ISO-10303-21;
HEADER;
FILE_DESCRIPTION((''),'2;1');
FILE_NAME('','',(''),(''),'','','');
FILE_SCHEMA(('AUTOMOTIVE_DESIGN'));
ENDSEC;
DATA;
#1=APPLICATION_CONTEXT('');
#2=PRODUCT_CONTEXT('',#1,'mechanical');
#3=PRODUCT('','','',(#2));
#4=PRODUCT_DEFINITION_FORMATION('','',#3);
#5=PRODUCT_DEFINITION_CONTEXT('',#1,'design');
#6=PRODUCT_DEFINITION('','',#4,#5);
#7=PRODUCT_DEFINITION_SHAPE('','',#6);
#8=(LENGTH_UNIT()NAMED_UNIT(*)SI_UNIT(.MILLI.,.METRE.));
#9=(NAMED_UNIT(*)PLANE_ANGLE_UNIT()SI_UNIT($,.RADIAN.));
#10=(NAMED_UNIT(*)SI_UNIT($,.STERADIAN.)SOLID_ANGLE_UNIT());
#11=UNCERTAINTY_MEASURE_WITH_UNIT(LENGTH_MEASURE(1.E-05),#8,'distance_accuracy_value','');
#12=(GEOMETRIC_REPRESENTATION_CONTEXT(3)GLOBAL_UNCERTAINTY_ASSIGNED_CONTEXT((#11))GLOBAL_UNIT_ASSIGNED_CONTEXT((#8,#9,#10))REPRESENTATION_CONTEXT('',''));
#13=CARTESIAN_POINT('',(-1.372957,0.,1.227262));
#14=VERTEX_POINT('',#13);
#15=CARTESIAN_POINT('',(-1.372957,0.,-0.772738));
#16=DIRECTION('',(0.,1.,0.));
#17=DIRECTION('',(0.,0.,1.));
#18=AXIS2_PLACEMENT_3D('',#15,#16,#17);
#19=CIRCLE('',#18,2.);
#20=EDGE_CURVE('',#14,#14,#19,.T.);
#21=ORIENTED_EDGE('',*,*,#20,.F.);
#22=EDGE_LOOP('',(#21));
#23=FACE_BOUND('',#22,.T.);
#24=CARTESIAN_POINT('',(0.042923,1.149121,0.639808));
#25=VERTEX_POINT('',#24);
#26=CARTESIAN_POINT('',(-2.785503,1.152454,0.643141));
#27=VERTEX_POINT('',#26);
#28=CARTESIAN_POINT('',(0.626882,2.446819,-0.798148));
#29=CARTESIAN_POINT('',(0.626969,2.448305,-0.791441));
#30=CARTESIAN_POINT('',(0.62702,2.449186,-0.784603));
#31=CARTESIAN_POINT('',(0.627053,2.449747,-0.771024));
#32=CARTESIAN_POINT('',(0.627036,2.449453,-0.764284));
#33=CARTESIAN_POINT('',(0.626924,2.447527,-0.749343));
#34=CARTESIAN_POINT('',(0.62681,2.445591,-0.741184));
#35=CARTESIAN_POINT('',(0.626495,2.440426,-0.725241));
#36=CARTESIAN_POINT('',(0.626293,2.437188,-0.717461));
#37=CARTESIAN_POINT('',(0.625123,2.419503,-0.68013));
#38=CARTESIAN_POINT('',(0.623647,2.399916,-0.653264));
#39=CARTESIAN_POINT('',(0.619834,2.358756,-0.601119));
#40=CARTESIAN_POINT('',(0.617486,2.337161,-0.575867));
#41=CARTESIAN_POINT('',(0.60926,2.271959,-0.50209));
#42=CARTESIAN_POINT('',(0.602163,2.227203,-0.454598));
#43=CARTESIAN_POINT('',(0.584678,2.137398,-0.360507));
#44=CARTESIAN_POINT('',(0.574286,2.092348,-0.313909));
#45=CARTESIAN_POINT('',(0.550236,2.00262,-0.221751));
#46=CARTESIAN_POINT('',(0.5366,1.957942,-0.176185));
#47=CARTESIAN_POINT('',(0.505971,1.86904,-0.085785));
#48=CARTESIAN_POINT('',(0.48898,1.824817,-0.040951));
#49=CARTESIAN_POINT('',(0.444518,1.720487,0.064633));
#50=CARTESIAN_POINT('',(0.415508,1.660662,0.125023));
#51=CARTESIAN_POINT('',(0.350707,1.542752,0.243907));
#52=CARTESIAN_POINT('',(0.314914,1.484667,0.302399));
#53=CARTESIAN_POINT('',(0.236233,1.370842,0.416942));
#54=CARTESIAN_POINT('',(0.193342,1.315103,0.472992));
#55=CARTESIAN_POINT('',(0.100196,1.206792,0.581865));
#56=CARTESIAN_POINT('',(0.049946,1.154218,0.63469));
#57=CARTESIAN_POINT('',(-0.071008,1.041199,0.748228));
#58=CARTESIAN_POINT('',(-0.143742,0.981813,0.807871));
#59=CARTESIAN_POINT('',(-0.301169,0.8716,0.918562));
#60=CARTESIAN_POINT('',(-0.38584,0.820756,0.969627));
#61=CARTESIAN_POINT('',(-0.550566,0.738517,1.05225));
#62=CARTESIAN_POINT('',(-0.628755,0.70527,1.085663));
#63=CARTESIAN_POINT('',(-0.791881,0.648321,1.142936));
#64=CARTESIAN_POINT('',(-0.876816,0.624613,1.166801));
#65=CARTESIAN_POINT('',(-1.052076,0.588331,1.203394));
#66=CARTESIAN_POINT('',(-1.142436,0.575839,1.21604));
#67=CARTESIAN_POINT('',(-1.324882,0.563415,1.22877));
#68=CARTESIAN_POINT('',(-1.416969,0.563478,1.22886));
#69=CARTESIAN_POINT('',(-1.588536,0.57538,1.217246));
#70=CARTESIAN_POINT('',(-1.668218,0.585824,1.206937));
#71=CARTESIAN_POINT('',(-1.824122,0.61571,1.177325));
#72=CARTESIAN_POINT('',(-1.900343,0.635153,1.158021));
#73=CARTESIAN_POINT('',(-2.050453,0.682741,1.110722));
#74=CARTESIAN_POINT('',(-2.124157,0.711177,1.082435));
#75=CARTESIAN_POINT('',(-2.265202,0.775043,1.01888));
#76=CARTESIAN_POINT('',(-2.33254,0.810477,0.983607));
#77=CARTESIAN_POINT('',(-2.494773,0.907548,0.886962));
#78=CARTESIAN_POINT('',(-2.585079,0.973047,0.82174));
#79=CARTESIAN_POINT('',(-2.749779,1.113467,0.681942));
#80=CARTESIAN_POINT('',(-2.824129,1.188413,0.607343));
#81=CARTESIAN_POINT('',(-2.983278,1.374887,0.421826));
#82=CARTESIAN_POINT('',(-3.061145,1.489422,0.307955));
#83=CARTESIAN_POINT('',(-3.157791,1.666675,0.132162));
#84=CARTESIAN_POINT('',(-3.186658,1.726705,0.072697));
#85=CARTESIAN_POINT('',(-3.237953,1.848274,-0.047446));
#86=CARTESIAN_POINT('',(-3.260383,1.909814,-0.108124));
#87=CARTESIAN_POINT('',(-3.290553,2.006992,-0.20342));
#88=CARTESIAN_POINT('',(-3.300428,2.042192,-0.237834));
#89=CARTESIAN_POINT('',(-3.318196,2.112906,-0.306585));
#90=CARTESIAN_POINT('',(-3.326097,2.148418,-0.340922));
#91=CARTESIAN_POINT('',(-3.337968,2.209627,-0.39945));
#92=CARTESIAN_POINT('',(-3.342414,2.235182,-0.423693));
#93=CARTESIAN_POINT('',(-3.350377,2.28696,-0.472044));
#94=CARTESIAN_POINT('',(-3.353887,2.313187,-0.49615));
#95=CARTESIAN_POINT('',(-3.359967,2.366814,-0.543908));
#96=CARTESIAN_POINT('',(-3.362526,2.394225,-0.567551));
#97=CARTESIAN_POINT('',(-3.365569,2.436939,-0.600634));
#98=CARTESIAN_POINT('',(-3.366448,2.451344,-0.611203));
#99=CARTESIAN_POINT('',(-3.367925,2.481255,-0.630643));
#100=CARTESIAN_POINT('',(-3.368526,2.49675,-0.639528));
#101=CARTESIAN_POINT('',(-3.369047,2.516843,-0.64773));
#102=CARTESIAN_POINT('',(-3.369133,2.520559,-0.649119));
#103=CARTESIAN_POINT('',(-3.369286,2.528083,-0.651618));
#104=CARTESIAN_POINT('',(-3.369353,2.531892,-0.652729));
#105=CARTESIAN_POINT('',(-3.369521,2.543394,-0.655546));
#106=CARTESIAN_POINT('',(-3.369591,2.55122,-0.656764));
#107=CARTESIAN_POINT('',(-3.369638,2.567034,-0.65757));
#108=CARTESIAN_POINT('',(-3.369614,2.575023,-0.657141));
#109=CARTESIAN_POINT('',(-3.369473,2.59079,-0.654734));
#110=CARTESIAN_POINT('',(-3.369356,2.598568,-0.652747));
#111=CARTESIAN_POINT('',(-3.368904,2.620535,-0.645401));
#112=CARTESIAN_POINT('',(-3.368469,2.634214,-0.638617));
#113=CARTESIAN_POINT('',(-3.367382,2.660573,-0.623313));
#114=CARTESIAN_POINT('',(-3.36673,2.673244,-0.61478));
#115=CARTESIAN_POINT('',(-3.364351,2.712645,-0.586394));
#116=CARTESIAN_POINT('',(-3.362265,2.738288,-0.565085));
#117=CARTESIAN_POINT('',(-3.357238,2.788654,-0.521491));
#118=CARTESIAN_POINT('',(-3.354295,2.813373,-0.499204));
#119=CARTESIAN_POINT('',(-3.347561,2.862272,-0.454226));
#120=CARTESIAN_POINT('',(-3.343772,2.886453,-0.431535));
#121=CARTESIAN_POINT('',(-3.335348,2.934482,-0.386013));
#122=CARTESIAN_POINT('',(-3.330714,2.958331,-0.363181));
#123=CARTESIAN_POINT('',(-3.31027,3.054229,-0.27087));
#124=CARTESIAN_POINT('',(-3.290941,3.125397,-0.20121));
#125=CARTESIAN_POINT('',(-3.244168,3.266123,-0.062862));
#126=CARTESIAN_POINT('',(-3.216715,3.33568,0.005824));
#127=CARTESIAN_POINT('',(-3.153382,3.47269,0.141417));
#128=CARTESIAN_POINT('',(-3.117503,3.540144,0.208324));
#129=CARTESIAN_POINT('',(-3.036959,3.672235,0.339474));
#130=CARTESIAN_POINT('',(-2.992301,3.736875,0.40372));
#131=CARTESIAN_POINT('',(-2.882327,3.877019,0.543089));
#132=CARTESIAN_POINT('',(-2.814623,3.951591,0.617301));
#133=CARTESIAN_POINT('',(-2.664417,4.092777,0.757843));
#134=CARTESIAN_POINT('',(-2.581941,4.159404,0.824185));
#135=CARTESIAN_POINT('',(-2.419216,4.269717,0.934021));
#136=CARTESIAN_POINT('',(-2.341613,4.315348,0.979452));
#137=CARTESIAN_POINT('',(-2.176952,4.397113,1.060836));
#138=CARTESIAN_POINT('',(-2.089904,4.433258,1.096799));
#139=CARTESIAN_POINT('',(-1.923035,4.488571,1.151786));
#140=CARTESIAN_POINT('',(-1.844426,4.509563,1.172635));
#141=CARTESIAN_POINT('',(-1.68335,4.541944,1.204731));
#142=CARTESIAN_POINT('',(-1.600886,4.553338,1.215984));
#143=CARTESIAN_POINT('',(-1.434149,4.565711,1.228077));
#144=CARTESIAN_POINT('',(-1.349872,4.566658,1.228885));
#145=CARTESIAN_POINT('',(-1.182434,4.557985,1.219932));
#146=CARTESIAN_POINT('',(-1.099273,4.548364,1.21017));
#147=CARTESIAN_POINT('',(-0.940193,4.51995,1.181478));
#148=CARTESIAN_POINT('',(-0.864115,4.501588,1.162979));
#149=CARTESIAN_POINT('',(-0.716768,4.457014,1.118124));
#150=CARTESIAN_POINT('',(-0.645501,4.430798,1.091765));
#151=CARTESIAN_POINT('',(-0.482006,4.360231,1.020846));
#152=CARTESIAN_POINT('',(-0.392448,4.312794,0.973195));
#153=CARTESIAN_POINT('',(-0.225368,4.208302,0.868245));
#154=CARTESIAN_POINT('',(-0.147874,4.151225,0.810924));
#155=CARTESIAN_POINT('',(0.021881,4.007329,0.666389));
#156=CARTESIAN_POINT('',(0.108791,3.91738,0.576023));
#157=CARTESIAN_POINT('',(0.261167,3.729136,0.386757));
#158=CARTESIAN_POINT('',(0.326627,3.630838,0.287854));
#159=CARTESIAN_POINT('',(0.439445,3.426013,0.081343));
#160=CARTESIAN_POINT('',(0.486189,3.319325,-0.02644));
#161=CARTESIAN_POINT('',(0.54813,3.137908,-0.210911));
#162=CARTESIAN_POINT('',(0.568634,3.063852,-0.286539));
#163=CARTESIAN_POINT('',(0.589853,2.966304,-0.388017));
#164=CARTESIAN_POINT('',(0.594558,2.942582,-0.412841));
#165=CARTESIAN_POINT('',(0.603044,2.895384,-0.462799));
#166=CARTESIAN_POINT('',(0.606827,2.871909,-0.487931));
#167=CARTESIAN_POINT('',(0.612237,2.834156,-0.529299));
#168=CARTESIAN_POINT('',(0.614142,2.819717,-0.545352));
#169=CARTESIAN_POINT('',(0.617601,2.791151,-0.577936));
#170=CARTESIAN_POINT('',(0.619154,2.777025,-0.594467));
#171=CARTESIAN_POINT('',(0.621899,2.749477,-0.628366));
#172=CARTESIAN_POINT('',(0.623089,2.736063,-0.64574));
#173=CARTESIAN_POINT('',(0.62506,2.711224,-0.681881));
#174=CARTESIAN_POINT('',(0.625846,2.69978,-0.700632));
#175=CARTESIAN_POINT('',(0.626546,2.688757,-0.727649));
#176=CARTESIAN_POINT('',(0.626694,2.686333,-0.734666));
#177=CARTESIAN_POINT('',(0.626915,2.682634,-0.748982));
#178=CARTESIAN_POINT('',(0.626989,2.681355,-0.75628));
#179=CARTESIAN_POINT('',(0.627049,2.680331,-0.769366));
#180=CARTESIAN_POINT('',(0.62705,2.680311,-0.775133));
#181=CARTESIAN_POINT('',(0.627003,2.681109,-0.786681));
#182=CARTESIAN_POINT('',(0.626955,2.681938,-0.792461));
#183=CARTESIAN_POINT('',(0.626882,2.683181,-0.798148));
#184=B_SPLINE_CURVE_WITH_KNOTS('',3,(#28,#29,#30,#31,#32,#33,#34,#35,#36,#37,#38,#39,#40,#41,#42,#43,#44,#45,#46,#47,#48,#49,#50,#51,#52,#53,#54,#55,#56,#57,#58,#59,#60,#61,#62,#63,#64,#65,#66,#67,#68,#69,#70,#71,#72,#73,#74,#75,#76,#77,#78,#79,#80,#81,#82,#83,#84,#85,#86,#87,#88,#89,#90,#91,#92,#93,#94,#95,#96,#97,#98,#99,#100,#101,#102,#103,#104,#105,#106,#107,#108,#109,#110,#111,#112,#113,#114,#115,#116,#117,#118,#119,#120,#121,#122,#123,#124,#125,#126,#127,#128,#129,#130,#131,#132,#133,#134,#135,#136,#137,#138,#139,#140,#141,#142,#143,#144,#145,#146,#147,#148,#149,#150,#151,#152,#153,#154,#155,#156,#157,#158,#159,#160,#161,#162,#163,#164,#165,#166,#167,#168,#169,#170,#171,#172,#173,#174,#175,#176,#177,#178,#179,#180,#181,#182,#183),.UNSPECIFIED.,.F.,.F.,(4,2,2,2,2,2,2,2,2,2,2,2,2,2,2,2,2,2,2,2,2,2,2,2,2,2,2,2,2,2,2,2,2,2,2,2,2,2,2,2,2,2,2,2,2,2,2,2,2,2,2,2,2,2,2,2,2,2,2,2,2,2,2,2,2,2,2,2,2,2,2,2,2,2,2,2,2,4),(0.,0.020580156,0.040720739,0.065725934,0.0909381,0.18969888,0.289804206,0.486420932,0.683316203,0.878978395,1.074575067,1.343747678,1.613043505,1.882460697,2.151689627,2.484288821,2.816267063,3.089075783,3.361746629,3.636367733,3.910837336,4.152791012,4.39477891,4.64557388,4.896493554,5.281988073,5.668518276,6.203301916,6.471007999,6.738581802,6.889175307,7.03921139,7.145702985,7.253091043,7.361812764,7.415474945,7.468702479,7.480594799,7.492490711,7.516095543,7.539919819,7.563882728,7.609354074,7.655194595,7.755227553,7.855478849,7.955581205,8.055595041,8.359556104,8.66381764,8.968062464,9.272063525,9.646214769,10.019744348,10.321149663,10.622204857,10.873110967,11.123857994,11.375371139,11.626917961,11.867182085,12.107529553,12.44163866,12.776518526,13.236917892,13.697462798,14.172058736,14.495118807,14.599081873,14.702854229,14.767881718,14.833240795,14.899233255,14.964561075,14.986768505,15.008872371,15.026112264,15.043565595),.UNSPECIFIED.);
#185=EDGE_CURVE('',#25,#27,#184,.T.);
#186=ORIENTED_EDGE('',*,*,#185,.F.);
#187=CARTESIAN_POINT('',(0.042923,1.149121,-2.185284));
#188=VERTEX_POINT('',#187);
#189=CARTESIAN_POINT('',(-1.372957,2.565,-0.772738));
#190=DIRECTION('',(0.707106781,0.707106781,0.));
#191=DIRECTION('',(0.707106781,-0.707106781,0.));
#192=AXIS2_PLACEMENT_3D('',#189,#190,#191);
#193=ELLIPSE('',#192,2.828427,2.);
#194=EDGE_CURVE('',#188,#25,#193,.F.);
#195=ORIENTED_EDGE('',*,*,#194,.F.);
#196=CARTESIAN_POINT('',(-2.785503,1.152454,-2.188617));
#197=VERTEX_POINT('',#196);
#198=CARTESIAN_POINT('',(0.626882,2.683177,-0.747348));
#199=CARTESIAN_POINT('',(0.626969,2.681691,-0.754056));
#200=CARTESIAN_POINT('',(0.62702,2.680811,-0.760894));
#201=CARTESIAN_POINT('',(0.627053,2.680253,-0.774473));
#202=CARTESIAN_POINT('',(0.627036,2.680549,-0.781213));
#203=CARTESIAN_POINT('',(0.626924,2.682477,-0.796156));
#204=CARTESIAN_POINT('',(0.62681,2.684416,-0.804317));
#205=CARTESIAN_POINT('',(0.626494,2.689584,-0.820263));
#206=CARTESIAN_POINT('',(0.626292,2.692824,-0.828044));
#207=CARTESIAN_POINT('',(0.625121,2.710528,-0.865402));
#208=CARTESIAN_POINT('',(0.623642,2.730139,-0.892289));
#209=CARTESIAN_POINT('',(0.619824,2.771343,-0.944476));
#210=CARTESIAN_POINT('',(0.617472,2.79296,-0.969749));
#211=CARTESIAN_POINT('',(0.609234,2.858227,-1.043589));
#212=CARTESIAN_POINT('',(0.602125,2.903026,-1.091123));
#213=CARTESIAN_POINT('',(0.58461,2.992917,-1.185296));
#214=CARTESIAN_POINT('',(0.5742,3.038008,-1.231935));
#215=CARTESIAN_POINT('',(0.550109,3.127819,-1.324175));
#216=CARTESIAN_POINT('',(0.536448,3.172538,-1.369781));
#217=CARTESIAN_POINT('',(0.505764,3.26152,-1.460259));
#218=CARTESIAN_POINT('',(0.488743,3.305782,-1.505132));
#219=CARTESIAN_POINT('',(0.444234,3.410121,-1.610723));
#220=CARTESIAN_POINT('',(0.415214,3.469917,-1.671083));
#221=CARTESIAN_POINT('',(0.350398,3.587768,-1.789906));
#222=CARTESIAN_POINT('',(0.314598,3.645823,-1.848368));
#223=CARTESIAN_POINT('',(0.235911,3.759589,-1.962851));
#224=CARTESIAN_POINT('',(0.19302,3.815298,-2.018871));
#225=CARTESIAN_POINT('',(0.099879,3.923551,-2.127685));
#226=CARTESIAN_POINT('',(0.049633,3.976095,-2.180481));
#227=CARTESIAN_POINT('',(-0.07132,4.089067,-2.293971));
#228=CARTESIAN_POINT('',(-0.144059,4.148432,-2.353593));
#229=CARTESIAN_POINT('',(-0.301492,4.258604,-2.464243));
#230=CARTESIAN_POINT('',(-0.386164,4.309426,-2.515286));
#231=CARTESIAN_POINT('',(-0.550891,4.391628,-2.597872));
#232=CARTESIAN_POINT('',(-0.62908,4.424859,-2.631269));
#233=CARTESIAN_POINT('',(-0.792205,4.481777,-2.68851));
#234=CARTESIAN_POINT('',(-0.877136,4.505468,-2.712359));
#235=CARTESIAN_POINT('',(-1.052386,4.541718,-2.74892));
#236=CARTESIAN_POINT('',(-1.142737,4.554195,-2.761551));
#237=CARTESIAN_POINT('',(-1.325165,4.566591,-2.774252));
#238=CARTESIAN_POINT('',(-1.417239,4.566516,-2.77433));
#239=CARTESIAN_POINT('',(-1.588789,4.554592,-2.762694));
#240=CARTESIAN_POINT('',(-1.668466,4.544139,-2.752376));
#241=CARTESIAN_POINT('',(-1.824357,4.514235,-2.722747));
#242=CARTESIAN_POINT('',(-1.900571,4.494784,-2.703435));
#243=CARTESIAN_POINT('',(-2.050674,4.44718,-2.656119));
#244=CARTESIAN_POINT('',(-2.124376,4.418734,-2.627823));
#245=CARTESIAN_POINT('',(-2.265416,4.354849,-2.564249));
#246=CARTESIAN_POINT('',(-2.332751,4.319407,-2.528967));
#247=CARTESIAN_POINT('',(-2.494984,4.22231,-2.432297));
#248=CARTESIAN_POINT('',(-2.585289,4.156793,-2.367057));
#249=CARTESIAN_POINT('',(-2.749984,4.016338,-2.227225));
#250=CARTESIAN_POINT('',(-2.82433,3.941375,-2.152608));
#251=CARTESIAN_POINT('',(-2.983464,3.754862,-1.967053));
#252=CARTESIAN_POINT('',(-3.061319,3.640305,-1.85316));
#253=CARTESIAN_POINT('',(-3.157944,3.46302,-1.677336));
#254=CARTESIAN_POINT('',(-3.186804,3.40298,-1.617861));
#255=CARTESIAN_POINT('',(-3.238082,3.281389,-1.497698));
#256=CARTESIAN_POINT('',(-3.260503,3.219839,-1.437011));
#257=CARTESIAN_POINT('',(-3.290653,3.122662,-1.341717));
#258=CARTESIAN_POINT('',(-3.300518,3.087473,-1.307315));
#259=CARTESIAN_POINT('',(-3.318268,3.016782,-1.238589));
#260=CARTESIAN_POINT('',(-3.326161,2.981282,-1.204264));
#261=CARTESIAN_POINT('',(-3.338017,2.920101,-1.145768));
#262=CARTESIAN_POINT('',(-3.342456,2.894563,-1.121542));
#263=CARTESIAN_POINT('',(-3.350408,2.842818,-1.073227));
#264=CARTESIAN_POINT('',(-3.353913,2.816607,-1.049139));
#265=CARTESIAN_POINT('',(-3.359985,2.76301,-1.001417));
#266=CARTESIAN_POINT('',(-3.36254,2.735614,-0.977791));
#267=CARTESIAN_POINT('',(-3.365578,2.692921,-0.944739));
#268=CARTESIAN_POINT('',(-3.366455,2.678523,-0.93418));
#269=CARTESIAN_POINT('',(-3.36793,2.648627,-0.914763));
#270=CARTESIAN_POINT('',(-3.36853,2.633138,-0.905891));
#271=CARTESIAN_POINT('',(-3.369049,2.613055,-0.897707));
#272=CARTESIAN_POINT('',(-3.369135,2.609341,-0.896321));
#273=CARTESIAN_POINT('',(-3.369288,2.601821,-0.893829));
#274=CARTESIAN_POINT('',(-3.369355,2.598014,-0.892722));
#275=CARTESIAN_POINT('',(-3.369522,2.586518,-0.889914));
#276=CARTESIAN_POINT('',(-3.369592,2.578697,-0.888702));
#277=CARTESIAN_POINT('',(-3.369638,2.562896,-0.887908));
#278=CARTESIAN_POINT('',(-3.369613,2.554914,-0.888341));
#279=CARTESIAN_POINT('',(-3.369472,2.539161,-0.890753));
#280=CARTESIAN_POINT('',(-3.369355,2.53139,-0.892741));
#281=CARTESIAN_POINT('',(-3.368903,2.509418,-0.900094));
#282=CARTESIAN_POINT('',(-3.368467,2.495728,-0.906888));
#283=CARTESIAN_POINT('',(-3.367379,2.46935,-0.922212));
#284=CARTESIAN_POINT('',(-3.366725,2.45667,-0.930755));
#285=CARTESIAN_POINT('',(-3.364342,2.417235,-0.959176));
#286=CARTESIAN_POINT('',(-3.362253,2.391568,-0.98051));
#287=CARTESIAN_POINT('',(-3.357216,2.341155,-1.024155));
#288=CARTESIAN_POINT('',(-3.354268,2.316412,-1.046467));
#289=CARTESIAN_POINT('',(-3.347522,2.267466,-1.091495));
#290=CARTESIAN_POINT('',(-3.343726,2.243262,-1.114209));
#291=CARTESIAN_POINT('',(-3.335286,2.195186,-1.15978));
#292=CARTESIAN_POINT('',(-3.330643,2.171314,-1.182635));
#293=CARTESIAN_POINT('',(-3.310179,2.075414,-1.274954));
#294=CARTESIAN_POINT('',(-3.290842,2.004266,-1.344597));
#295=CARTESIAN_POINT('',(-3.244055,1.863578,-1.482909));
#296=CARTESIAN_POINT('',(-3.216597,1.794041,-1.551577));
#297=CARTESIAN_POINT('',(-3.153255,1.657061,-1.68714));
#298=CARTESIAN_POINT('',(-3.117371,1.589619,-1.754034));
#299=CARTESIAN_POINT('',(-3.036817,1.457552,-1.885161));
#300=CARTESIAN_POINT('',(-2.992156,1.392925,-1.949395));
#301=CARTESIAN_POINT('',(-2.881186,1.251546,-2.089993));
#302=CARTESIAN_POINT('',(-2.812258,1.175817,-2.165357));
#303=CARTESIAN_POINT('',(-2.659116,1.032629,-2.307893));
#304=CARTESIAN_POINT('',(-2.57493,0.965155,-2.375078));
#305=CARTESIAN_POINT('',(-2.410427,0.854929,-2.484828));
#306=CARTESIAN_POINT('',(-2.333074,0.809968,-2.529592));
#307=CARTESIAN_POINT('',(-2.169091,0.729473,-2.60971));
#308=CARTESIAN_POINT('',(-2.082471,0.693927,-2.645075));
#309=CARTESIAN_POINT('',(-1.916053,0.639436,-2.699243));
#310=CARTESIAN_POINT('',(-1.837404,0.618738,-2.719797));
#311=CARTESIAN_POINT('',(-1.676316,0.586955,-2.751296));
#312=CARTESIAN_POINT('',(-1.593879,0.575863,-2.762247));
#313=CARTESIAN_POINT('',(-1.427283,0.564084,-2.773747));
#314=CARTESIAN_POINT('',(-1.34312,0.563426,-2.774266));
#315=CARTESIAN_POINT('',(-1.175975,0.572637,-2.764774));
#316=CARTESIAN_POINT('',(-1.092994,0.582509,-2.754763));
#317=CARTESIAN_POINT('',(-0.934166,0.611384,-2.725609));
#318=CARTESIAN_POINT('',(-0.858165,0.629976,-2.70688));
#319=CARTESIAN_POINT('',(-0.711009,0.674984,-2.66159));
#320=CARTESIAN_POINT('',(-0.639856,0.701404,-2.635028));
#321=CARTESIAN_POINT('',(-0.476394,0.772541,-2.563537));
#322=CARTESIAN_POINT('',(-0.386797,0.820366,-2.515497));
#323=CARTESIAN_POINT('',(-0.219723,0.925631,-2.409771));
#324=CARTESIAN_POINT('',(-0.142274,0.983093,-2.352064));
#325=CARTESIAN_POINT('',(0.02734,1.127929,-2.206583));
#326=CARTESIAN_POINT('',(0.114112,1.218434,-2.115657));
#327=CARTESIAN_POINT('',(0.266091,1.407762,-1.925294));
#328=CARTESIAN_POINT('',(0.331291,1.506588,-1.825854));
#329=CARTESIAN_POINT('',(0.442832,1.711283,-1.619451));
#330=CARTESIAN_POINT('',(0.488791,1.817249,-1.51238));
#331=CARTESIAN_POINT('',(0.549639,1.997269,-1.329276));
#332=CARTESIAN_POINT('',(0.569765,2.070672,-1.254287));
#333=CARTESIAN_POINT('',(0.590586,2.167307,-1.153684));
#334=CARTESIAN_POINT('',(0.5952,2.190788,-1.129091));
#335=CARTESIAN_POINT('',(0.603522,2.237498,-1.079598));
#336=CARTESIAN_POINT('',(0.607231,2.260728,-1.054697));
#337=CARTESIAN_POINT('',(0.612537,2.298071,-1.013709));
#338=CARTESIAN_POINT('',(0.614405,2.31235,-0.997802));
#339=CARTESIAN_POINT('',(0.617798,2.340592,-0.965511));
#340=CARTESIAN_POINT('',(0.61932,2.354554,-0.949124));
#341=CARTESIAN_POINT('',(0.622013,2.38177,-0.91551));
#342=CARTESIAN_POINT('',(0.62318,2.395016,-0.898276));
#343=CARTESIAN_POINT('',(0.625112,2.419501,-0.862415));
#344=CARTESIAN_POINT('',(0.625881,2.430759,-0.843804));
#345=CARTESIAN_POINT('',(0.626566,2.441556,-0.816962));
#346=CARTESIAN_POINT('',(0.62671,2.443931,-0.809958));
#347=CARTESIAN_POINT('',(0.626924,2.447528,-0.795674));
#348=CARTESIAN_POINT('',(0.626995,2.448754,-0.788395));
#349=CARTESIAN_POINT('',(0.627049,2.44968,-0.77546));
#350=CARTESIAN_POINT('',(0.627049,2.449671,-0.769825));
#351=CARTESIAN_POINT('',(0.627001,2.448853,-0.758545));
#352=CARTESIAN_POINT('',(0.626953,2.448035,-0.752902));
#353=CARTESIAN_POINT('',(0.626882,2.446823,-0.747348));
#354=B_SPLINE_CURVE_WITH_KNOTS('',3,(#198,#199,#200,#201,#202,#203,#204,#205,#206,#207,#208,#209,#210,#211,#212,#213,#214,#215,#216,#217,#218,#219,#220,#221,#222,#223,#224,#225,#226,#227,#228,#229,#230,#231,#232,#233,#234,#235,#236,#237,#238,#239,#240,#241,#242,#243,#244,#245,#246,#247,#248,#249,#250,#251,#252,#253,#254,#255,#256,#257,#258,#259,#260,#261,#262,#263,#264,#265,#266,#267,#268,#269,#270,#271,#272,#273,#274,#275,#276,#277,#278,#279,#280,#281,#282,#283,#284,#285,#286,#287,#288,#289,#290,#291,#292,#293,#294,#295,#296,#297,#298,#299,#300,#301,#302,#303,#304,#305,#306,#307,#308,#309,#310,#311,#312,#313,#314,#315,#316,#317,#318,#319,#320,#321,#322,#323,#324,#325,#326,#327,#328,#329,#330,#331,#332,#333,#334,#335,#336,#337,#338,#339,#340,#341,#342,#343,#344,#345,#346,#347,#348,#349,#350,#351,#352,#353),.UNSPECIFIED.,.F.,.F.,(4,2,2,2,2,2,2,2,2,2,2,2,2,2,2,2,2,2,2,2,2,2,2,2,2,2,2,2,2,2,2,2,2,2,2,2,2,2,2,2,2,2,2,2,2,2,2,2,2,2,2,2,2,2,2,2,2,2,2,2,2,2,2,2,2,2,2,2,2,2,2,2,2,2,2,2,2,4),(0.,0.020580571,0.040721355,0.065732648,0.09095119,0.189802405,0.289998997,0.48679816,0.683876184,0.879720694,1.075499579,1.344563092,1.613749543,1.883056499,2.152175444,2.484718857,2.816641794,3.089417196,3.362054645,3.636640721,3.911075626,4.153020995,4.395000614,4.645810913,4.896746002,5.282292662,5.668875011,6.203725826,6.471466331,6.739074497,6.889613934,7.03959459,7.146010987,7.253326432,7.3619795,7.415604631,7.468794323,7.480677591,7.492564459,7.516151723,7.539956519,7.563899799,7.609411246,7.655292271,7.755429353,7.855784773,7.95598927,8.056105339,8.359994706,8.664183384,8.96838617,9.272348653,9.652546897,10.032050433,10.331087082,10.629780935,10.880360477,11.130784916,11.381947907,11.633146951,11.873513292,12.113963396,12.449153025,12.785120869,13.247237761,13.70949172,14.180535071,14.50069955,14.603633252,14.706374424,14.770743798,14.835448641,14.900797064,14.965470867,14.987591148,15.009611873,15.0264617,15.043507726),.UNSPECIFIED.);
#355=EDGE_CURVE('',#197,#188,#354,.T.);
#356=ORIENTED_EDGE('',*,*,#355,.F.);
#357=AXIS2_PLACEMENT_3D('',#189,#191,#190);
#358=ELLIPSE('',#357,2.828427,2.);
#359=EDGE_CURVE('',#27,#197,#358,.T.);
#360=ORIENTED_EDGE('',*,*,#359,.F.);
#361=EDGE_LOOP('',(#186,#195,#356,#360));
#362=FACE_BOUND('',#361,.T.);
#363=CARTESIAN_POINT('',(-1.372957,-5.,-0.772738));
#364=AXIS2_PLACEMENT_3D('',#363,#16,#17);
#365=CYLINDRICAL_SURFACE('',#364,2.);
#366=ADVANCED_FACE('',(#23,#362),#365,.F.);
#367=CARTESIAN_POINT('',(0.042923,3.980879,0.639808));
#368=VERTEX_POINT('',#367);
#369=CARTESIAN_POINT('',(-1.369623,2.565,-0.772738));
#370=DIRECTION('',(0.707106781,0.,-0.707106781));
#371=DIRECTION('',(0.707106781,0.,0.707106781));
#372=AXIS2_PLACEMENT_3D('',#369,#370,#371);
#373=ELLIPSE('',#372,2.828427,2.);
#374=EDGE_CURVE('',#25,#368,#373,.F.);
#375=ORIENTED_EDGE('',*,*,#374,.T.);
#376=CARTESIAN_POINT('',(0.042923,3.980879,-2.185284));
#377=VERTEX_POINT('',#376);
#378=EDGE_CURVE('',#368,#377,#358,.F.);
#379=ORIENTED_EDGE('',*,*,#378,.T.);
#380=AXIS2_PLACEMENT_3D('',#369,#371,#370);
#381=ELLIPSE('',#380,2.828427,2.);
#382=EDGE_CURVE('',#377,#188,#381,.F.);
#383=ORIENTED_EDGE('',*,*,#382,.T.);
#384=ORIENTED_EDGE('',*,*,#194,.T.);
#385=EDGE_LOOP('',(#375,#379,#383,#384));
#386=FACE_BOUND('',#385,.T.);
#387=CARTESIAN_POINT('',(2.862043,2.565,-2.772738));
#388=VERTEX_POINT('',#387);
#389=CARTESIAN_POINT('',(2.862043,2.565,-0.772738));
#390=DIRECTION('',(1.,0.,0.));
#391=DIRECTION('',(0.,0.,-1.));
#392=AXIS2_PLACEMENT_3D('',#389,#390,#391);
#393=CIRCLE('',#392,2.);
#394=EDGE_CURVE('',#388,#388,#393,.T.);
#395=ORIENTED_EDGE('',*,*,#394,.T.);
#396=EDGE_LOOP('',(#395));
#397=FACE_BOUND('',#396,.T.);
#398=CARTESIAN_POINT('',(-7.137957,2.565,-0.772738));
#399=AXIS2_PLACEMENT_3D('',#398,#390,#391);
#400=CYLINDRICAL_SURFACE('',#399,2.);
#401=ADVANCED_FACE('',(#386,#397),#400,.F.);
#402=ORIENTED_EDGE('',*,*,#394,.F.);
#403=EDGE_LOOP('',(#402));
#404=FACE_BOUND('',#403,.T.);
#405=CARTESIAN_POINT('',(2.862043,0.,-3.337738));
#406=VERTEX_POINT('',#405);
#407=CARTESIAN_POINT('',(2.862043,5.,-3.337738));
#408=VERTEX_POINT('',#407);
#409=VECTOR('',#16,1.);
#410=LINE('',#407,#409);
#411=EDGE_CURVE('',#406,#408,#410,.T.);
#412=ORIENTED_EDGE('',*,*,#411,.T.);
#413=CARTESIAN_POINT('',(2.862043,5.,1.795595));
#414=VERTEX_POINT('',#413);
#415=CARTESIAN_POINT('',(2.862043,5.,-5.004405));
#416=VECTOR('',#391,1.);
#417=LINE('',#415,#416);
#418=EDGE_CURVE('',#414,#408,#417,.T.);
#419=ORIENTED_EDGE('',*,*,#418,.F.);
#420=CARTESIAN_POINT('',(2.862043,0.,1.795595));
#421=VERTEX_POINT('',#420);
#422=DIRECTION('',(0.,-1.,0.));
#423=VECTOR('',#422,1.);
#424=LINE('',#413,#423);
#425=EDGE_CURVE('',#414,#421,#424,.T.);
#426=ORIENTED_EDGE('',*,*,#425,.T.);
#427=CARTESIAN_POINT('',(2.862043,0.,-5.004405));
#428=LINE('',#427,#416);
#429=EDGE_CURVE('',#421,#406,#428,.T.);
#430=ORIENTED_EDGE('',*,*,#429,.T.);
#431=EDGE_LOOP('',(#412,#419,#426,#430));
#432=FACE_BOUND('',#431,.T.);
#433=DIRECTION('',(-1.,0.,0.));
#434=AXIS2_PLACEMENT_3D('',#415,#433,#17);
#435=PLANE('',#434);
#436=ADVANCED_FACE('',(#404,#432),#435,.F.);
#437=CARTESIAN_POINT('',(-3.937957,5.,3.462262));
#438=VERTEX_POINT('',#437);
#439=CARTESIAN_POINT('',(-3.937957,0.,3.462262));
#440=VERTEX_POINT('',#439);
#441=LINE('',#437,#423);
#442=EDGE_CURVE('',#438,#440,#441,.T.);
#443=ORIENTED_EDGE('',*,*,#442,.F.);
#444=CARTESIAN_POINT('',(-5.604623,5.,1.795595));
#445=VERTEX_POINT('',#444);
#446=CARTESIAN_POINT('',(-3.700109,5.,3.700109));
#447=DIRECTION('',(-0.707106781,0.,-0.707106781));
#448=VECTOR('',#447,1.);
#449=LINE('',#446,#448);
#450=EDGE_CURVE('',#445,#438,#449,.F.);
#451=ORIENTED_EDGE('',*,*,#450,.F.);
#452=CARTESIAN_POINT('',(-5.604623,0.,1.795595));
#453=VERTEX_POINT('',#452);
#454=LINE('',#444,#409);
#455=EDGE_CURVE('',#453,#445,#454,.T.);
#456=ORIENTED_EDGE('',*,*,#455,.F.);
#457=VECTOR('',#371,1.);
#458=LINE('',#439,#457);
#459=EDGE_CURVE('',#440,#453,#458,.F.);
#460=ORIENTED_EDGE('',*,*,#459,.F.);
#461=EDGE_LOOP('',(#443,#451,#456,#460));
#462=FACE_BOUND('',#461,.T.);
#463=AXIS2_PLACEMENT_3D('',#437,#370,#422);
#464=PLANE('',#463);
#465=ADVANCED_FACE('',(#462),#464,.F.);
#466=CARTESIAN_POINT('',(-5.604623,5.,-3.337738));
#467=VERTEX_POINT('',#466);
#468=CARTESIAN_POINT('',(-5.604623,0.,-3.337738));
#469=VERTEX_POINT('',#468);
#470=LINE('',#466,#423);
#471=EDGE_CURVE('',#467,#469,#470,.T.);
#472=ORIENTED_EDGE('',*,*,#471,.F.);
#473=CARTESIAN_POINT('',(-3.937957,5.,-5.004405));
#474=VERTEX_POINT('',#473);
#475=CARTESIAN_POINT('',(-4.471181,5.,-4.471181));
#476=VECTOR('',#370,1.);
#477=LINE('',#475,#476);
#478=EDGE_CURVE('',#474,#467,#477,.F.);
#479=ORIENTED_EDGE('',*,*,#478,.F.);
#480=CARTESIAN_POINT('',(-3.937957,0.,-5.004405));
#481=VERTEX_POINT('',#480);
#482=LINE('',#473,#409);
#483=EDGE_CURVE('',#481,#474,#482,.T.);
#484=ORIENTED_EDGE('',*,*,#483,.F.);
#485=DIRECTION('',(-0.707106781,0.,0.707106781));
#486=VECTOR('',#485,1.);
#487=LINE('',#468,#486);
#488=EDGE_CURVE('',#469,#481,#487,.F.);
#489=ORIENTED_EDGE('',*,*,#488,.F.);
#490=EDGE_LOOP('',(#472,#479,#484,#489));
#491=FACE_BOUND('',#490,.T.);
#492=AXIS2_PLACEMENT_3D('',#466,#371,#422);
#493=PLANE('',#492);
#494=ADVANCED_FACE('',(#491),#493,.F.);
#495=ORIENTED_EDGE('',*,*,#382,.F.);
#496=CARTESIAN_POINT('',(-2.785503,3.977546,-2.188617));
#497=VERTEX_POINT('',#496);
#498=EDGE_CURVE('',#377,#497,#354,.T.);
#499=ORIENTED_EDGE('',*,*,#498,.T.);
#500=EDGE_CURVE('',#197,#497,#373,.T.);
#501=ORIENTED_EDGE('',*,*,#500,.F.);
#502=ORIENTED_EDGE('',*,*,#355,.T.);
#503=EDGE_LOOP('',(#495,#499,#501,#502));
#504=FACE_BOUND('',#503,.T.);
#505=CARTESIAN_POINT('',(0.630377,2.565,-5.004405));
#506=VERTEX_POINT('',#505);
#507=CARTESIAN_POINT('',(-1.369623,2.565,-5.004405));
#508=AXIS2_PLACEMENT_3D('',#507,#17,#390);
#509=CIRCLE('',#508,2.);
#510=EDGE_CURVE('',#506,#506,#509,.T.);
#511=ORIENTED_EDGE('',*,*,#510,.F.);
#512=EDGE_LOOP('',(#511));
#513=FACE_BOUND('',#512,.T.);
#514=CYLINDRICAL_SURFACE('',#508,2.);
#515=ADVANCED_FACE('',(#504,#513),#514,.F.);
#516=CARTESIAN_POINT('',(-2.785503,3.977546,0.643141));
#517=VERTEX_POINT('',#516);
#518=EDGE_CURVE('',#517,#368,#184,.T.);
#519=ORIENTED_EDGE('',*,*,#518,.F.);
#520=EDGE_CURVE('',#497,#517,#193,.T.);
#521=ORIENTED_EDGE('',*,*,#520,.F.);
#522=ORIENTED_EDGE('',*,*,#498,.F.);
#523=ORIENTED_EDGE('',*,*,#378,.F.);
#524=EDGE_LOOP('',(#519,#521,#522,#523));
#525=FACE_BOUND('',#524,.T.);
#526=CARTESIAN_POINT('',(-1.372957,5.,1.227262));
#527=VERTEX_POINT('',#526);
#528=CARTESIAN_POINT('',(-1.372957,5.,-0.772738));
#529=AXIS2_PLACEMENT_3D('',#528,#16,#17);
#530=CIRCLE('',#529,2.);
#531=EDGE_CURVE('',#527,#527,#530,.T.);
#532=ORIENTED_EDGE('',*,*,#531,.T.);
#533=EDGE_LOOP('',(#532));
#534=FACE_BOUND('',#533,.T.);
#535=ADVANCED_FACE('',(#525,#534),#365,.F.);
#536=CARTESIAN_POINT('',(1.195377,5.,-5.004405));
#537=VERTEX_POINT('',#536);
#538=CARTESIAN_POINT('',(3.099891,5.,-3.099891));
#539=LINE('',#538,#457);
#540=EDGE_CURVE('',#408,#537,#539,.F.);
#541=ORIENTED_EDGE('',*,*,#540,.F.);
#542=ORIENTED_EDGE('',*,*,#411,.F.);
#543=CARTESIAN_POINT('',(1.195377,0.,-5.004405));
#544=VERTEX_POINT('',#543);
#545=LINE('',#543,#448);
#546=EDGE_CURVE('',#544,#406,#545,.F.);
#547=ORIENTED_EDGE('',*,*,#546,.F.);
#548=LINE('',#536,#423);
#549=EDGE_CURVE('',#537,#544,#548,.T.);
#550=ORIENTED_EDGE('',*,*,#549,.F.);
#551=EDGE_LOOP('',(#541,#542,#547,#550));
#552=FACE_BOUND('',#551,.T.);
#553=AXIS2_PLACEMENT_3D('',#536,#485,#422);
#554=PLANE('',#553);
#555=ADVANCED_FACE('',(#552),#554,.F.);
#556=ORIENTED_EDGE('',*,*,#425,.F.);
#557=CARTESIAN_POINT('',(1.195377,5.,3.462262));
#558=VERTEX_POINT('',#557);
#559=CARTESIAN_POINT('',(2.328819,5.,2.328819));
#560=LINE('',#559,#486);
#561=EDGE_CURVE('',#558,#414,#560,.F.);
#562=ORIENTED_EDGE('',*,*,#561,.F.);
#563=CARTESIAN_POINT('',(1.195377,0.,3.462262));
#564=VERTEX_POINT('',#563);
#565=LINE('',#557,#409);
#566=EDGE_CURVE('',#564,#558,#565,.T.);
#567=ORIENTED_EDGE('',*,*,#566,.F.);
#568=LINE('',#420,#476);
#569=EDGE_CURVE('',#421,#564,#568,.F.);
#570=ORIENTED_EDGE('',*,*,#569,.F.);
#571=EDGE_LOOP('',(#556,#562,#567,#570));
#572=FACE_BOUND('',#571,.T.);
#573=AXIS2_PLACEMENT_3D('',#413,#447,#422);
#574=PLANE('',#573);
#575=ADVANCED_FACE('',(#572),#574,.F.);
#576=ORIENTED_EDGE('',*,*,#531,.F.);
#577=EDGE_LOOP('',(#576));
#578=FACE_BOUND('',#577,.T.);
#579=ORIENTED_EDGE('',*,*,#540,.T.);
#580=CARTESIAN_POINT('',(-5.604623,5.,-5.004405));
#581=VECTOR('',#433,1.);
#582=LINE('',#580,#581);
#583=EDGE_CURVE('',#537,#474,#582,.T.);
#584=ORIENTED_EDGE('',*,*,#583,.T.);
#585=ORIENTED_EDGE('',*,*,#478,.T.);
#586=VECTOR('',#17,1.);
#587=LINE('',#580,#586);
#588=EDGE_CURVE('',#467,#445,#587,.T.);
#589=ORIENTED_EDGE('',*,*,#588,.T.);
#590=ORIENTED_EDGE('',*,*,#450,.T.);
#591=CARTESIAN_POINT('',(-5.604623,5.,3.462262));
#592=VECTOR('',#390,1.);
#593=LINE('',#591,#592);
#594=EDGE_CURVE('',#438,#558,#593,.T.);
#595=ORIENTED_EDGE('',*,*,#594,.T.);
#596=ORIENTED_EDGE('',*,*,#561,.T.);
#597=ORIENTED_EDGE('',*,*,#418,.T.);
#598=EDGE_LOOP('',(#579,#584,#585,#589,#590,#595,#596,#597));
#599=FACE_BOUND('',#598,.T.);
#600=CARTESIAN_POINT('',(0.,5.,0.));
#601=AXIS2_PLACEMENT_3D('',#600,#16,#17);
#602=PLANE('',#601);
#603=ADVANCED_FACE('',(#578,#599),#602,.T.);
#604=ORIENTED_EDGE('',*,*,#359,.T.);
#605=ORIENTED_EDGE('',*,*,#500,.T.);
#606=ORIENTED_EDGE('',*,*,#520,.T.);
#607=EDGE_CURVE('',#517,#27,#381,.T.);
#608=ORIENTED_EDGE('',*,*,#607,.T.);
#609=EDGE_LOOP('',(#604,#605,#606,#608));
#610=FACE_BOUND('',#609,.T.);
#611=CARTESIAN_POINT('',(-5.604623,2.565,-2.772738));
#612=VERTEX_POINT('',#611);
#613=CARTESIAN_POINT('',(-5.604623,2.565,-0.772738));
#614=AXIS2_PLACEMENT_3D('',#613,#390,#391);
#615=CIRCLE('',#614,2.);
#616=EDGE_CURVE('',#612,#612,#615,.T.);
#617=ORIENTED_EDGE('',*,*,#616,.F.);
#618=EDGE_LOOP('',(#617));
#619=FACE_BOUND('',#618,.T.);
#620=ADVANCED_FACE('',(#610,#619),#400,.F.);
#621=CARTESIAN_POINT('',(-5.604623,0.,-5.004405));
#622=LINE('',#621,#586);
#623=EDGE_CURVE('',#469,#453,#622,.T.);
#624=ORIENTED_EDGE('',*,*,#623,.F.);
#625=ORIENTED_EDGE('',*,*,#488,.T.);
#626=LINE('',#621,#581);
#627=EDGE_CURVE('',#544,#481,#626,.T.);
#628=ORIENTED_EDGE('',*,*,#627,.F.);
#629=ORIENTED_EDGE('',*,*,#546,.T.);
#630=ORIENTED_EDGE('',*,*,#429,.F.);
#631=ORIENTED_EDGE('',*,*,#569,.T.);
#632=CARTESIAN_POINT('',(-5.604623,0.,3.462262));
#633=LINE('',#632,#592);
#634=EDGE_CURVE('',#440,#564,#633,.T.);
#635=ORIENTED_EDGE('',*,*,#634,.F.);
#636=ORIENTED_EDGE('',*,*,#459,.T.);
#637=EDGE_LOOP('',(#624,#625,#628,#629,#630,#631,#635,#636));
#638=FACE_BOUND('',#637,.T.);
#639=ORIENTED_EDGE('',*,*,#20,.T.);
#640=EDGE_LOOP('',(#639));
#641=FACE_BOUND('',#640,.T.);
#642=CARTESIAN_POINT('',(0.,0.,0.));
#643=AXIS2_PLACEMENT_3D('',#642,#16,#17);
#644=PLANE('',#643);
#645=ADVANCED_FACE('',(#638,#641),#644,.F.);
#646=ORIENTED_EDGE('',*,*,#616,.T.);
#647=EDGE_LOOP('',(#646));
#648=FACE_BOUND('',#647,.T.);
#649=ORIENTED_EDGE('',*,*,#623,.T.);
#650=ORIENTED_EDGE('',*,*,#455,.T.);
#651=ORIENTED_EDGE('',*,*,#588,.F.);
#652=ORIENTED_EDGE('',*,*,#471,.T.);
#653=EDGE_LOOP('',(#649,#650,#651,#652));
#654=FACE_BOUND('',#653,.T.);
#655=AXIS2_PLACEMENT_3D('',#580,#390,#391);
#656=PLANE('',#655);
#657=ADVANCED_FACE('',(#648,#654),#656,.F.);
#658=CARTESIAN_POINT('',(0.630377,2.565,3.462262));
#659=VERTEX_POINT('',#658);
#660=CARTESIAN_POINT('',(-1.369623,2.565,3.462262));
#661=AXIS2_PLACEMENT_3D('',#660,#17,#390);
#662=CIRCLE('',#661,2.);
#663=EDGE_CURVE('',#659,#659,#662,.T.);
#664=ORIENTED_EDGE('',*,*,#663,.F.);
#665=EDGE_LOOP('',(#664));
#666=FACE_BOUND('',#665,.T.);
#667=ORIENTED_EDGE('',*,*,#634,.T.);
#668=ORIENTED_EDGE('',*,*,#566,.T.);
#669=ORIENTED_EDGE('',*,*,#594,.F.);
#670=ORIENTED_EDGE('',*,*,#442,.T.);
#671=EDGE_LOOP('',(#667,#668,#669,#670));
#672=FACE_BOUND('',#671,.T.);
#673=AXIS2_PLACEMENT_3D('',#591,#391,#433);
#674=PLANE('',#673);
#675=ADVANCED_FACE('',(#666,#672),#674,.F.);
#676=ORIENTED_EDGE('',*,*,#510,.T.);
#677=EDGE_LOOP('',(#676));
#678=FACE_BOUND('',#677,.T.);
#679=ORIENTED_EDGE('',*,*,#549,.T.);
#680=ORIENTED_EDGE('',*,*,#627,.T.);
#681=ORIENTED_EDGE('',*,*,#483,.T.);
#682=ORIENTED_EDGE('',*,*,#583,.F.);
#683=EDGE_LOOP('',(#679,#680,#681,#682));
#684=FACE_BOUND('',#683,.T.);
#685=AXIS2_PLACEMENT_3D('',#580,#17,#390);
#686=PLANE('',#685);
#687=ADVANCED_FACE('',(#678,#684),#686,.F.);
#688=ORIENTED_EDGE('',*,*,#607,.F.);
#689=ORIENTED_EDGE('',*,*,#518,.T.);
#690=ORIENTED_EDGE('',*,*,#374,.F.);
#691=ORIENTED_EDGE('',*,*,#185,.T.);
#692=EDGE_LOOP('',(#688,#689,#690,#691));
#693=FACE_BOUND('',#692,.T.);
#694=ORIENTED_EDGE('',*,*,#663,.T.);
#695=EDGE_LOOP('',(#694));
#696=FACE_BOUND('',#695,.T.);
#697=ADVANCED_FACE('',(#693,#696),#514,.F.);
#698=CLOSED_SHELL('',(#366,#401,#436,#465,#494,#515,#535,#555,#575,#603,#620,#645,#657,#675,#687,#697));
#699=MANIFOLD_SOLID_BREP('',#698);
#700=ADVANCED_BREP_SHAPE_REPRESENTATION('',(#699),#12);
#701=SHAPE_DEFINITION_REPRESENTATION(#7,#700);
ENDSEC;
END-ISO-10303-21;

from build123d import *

# Parameters (mm, degrees)
SKETCH1_W           = 8.466666666
SKETCH1_H           = 8.466666667
BOSS_EXTRUDE1_DEPTH = 5
CHAMFER1_SIZE       = 1.666666667
SKETCH2_R           = 2
CUT_EXTRUDE1_DEPTH  = 10
SKETCH3_R           = 2
CUT_EXTRUDE2_DEPTH  = 12.317961286
SKETCH4_R           = 2
CUT_EXTRUDE3_DEPTH  = 10


with BuildPart() as part:
    # Sketch1 → Boss-Extrude1 (new body)
    with BuildSketch(Plane(origin=(0, 0, 0), x_dir=(1, 0, 0), z_dir=(0, 1, 0))):
        with Locations((-1.371290047, 0.771071428)):
            Rectangle(SKETCH1_W, SKETCH1_H)
    extrude(amount=BOSS_EXTRUDE1_DEPTH)

    # Chamfer1
    chamfer1_edges = [part.edges().sort_by_distance(p)[0] for p in [
        (2.862043286, 2.5, 3.462261905),
        (-5.60462338, 2.5, 3.462261905),
        (-5.60462338, 2.5, -5.004404762),
        (2.862043286, 2.5, -5.004404762),
    ]]
    chamfer(chamfer1_edges, length=CHAMFER1_SIZE)

    # Sketch2 → Cut-Extrude1 (cut)
    with BuildSketch(Plane(origin=(2.862043286, 0, 0), x_dir=(0, 0, -1), z_dir=(1, 0, 0))):
        with Locations((0.772738095, 2.565)):
            Circle(SKETCH2_R)
    extrude(amount=-CUT_EXTRUDE1_DEPTH, mode=Mode.SUBTRACT)

    # Sketch3 → Cut-Extrude2 (cut, through all)
    with BuildSketch(Plane.XY.offset(3.462261905)):
        with Locations((-1.36962338, 2.565)):
            Circle(SKETCH3_R)
    extrude(amount=-CUT_EXTRUDE2_DEPTH, mode=Mode.SUBTRACT)

    # Sketch4 → Cut-Extrude3 (cut)
    with BuildSketch(Plane(origin=(0, 5, 0), x_dir=(1, 0, 0), z_dir=(0, 1, 0))):
        with Locations(Location((-1.372956714, 0.772738095, 0), (0, 0, 270))):
            Circle(SKETCH4_R)
    extrude(amount=-CUT_EXTRUDE3_DEPTH, mode=Mode.SUBTRACT)


solid = part.part
